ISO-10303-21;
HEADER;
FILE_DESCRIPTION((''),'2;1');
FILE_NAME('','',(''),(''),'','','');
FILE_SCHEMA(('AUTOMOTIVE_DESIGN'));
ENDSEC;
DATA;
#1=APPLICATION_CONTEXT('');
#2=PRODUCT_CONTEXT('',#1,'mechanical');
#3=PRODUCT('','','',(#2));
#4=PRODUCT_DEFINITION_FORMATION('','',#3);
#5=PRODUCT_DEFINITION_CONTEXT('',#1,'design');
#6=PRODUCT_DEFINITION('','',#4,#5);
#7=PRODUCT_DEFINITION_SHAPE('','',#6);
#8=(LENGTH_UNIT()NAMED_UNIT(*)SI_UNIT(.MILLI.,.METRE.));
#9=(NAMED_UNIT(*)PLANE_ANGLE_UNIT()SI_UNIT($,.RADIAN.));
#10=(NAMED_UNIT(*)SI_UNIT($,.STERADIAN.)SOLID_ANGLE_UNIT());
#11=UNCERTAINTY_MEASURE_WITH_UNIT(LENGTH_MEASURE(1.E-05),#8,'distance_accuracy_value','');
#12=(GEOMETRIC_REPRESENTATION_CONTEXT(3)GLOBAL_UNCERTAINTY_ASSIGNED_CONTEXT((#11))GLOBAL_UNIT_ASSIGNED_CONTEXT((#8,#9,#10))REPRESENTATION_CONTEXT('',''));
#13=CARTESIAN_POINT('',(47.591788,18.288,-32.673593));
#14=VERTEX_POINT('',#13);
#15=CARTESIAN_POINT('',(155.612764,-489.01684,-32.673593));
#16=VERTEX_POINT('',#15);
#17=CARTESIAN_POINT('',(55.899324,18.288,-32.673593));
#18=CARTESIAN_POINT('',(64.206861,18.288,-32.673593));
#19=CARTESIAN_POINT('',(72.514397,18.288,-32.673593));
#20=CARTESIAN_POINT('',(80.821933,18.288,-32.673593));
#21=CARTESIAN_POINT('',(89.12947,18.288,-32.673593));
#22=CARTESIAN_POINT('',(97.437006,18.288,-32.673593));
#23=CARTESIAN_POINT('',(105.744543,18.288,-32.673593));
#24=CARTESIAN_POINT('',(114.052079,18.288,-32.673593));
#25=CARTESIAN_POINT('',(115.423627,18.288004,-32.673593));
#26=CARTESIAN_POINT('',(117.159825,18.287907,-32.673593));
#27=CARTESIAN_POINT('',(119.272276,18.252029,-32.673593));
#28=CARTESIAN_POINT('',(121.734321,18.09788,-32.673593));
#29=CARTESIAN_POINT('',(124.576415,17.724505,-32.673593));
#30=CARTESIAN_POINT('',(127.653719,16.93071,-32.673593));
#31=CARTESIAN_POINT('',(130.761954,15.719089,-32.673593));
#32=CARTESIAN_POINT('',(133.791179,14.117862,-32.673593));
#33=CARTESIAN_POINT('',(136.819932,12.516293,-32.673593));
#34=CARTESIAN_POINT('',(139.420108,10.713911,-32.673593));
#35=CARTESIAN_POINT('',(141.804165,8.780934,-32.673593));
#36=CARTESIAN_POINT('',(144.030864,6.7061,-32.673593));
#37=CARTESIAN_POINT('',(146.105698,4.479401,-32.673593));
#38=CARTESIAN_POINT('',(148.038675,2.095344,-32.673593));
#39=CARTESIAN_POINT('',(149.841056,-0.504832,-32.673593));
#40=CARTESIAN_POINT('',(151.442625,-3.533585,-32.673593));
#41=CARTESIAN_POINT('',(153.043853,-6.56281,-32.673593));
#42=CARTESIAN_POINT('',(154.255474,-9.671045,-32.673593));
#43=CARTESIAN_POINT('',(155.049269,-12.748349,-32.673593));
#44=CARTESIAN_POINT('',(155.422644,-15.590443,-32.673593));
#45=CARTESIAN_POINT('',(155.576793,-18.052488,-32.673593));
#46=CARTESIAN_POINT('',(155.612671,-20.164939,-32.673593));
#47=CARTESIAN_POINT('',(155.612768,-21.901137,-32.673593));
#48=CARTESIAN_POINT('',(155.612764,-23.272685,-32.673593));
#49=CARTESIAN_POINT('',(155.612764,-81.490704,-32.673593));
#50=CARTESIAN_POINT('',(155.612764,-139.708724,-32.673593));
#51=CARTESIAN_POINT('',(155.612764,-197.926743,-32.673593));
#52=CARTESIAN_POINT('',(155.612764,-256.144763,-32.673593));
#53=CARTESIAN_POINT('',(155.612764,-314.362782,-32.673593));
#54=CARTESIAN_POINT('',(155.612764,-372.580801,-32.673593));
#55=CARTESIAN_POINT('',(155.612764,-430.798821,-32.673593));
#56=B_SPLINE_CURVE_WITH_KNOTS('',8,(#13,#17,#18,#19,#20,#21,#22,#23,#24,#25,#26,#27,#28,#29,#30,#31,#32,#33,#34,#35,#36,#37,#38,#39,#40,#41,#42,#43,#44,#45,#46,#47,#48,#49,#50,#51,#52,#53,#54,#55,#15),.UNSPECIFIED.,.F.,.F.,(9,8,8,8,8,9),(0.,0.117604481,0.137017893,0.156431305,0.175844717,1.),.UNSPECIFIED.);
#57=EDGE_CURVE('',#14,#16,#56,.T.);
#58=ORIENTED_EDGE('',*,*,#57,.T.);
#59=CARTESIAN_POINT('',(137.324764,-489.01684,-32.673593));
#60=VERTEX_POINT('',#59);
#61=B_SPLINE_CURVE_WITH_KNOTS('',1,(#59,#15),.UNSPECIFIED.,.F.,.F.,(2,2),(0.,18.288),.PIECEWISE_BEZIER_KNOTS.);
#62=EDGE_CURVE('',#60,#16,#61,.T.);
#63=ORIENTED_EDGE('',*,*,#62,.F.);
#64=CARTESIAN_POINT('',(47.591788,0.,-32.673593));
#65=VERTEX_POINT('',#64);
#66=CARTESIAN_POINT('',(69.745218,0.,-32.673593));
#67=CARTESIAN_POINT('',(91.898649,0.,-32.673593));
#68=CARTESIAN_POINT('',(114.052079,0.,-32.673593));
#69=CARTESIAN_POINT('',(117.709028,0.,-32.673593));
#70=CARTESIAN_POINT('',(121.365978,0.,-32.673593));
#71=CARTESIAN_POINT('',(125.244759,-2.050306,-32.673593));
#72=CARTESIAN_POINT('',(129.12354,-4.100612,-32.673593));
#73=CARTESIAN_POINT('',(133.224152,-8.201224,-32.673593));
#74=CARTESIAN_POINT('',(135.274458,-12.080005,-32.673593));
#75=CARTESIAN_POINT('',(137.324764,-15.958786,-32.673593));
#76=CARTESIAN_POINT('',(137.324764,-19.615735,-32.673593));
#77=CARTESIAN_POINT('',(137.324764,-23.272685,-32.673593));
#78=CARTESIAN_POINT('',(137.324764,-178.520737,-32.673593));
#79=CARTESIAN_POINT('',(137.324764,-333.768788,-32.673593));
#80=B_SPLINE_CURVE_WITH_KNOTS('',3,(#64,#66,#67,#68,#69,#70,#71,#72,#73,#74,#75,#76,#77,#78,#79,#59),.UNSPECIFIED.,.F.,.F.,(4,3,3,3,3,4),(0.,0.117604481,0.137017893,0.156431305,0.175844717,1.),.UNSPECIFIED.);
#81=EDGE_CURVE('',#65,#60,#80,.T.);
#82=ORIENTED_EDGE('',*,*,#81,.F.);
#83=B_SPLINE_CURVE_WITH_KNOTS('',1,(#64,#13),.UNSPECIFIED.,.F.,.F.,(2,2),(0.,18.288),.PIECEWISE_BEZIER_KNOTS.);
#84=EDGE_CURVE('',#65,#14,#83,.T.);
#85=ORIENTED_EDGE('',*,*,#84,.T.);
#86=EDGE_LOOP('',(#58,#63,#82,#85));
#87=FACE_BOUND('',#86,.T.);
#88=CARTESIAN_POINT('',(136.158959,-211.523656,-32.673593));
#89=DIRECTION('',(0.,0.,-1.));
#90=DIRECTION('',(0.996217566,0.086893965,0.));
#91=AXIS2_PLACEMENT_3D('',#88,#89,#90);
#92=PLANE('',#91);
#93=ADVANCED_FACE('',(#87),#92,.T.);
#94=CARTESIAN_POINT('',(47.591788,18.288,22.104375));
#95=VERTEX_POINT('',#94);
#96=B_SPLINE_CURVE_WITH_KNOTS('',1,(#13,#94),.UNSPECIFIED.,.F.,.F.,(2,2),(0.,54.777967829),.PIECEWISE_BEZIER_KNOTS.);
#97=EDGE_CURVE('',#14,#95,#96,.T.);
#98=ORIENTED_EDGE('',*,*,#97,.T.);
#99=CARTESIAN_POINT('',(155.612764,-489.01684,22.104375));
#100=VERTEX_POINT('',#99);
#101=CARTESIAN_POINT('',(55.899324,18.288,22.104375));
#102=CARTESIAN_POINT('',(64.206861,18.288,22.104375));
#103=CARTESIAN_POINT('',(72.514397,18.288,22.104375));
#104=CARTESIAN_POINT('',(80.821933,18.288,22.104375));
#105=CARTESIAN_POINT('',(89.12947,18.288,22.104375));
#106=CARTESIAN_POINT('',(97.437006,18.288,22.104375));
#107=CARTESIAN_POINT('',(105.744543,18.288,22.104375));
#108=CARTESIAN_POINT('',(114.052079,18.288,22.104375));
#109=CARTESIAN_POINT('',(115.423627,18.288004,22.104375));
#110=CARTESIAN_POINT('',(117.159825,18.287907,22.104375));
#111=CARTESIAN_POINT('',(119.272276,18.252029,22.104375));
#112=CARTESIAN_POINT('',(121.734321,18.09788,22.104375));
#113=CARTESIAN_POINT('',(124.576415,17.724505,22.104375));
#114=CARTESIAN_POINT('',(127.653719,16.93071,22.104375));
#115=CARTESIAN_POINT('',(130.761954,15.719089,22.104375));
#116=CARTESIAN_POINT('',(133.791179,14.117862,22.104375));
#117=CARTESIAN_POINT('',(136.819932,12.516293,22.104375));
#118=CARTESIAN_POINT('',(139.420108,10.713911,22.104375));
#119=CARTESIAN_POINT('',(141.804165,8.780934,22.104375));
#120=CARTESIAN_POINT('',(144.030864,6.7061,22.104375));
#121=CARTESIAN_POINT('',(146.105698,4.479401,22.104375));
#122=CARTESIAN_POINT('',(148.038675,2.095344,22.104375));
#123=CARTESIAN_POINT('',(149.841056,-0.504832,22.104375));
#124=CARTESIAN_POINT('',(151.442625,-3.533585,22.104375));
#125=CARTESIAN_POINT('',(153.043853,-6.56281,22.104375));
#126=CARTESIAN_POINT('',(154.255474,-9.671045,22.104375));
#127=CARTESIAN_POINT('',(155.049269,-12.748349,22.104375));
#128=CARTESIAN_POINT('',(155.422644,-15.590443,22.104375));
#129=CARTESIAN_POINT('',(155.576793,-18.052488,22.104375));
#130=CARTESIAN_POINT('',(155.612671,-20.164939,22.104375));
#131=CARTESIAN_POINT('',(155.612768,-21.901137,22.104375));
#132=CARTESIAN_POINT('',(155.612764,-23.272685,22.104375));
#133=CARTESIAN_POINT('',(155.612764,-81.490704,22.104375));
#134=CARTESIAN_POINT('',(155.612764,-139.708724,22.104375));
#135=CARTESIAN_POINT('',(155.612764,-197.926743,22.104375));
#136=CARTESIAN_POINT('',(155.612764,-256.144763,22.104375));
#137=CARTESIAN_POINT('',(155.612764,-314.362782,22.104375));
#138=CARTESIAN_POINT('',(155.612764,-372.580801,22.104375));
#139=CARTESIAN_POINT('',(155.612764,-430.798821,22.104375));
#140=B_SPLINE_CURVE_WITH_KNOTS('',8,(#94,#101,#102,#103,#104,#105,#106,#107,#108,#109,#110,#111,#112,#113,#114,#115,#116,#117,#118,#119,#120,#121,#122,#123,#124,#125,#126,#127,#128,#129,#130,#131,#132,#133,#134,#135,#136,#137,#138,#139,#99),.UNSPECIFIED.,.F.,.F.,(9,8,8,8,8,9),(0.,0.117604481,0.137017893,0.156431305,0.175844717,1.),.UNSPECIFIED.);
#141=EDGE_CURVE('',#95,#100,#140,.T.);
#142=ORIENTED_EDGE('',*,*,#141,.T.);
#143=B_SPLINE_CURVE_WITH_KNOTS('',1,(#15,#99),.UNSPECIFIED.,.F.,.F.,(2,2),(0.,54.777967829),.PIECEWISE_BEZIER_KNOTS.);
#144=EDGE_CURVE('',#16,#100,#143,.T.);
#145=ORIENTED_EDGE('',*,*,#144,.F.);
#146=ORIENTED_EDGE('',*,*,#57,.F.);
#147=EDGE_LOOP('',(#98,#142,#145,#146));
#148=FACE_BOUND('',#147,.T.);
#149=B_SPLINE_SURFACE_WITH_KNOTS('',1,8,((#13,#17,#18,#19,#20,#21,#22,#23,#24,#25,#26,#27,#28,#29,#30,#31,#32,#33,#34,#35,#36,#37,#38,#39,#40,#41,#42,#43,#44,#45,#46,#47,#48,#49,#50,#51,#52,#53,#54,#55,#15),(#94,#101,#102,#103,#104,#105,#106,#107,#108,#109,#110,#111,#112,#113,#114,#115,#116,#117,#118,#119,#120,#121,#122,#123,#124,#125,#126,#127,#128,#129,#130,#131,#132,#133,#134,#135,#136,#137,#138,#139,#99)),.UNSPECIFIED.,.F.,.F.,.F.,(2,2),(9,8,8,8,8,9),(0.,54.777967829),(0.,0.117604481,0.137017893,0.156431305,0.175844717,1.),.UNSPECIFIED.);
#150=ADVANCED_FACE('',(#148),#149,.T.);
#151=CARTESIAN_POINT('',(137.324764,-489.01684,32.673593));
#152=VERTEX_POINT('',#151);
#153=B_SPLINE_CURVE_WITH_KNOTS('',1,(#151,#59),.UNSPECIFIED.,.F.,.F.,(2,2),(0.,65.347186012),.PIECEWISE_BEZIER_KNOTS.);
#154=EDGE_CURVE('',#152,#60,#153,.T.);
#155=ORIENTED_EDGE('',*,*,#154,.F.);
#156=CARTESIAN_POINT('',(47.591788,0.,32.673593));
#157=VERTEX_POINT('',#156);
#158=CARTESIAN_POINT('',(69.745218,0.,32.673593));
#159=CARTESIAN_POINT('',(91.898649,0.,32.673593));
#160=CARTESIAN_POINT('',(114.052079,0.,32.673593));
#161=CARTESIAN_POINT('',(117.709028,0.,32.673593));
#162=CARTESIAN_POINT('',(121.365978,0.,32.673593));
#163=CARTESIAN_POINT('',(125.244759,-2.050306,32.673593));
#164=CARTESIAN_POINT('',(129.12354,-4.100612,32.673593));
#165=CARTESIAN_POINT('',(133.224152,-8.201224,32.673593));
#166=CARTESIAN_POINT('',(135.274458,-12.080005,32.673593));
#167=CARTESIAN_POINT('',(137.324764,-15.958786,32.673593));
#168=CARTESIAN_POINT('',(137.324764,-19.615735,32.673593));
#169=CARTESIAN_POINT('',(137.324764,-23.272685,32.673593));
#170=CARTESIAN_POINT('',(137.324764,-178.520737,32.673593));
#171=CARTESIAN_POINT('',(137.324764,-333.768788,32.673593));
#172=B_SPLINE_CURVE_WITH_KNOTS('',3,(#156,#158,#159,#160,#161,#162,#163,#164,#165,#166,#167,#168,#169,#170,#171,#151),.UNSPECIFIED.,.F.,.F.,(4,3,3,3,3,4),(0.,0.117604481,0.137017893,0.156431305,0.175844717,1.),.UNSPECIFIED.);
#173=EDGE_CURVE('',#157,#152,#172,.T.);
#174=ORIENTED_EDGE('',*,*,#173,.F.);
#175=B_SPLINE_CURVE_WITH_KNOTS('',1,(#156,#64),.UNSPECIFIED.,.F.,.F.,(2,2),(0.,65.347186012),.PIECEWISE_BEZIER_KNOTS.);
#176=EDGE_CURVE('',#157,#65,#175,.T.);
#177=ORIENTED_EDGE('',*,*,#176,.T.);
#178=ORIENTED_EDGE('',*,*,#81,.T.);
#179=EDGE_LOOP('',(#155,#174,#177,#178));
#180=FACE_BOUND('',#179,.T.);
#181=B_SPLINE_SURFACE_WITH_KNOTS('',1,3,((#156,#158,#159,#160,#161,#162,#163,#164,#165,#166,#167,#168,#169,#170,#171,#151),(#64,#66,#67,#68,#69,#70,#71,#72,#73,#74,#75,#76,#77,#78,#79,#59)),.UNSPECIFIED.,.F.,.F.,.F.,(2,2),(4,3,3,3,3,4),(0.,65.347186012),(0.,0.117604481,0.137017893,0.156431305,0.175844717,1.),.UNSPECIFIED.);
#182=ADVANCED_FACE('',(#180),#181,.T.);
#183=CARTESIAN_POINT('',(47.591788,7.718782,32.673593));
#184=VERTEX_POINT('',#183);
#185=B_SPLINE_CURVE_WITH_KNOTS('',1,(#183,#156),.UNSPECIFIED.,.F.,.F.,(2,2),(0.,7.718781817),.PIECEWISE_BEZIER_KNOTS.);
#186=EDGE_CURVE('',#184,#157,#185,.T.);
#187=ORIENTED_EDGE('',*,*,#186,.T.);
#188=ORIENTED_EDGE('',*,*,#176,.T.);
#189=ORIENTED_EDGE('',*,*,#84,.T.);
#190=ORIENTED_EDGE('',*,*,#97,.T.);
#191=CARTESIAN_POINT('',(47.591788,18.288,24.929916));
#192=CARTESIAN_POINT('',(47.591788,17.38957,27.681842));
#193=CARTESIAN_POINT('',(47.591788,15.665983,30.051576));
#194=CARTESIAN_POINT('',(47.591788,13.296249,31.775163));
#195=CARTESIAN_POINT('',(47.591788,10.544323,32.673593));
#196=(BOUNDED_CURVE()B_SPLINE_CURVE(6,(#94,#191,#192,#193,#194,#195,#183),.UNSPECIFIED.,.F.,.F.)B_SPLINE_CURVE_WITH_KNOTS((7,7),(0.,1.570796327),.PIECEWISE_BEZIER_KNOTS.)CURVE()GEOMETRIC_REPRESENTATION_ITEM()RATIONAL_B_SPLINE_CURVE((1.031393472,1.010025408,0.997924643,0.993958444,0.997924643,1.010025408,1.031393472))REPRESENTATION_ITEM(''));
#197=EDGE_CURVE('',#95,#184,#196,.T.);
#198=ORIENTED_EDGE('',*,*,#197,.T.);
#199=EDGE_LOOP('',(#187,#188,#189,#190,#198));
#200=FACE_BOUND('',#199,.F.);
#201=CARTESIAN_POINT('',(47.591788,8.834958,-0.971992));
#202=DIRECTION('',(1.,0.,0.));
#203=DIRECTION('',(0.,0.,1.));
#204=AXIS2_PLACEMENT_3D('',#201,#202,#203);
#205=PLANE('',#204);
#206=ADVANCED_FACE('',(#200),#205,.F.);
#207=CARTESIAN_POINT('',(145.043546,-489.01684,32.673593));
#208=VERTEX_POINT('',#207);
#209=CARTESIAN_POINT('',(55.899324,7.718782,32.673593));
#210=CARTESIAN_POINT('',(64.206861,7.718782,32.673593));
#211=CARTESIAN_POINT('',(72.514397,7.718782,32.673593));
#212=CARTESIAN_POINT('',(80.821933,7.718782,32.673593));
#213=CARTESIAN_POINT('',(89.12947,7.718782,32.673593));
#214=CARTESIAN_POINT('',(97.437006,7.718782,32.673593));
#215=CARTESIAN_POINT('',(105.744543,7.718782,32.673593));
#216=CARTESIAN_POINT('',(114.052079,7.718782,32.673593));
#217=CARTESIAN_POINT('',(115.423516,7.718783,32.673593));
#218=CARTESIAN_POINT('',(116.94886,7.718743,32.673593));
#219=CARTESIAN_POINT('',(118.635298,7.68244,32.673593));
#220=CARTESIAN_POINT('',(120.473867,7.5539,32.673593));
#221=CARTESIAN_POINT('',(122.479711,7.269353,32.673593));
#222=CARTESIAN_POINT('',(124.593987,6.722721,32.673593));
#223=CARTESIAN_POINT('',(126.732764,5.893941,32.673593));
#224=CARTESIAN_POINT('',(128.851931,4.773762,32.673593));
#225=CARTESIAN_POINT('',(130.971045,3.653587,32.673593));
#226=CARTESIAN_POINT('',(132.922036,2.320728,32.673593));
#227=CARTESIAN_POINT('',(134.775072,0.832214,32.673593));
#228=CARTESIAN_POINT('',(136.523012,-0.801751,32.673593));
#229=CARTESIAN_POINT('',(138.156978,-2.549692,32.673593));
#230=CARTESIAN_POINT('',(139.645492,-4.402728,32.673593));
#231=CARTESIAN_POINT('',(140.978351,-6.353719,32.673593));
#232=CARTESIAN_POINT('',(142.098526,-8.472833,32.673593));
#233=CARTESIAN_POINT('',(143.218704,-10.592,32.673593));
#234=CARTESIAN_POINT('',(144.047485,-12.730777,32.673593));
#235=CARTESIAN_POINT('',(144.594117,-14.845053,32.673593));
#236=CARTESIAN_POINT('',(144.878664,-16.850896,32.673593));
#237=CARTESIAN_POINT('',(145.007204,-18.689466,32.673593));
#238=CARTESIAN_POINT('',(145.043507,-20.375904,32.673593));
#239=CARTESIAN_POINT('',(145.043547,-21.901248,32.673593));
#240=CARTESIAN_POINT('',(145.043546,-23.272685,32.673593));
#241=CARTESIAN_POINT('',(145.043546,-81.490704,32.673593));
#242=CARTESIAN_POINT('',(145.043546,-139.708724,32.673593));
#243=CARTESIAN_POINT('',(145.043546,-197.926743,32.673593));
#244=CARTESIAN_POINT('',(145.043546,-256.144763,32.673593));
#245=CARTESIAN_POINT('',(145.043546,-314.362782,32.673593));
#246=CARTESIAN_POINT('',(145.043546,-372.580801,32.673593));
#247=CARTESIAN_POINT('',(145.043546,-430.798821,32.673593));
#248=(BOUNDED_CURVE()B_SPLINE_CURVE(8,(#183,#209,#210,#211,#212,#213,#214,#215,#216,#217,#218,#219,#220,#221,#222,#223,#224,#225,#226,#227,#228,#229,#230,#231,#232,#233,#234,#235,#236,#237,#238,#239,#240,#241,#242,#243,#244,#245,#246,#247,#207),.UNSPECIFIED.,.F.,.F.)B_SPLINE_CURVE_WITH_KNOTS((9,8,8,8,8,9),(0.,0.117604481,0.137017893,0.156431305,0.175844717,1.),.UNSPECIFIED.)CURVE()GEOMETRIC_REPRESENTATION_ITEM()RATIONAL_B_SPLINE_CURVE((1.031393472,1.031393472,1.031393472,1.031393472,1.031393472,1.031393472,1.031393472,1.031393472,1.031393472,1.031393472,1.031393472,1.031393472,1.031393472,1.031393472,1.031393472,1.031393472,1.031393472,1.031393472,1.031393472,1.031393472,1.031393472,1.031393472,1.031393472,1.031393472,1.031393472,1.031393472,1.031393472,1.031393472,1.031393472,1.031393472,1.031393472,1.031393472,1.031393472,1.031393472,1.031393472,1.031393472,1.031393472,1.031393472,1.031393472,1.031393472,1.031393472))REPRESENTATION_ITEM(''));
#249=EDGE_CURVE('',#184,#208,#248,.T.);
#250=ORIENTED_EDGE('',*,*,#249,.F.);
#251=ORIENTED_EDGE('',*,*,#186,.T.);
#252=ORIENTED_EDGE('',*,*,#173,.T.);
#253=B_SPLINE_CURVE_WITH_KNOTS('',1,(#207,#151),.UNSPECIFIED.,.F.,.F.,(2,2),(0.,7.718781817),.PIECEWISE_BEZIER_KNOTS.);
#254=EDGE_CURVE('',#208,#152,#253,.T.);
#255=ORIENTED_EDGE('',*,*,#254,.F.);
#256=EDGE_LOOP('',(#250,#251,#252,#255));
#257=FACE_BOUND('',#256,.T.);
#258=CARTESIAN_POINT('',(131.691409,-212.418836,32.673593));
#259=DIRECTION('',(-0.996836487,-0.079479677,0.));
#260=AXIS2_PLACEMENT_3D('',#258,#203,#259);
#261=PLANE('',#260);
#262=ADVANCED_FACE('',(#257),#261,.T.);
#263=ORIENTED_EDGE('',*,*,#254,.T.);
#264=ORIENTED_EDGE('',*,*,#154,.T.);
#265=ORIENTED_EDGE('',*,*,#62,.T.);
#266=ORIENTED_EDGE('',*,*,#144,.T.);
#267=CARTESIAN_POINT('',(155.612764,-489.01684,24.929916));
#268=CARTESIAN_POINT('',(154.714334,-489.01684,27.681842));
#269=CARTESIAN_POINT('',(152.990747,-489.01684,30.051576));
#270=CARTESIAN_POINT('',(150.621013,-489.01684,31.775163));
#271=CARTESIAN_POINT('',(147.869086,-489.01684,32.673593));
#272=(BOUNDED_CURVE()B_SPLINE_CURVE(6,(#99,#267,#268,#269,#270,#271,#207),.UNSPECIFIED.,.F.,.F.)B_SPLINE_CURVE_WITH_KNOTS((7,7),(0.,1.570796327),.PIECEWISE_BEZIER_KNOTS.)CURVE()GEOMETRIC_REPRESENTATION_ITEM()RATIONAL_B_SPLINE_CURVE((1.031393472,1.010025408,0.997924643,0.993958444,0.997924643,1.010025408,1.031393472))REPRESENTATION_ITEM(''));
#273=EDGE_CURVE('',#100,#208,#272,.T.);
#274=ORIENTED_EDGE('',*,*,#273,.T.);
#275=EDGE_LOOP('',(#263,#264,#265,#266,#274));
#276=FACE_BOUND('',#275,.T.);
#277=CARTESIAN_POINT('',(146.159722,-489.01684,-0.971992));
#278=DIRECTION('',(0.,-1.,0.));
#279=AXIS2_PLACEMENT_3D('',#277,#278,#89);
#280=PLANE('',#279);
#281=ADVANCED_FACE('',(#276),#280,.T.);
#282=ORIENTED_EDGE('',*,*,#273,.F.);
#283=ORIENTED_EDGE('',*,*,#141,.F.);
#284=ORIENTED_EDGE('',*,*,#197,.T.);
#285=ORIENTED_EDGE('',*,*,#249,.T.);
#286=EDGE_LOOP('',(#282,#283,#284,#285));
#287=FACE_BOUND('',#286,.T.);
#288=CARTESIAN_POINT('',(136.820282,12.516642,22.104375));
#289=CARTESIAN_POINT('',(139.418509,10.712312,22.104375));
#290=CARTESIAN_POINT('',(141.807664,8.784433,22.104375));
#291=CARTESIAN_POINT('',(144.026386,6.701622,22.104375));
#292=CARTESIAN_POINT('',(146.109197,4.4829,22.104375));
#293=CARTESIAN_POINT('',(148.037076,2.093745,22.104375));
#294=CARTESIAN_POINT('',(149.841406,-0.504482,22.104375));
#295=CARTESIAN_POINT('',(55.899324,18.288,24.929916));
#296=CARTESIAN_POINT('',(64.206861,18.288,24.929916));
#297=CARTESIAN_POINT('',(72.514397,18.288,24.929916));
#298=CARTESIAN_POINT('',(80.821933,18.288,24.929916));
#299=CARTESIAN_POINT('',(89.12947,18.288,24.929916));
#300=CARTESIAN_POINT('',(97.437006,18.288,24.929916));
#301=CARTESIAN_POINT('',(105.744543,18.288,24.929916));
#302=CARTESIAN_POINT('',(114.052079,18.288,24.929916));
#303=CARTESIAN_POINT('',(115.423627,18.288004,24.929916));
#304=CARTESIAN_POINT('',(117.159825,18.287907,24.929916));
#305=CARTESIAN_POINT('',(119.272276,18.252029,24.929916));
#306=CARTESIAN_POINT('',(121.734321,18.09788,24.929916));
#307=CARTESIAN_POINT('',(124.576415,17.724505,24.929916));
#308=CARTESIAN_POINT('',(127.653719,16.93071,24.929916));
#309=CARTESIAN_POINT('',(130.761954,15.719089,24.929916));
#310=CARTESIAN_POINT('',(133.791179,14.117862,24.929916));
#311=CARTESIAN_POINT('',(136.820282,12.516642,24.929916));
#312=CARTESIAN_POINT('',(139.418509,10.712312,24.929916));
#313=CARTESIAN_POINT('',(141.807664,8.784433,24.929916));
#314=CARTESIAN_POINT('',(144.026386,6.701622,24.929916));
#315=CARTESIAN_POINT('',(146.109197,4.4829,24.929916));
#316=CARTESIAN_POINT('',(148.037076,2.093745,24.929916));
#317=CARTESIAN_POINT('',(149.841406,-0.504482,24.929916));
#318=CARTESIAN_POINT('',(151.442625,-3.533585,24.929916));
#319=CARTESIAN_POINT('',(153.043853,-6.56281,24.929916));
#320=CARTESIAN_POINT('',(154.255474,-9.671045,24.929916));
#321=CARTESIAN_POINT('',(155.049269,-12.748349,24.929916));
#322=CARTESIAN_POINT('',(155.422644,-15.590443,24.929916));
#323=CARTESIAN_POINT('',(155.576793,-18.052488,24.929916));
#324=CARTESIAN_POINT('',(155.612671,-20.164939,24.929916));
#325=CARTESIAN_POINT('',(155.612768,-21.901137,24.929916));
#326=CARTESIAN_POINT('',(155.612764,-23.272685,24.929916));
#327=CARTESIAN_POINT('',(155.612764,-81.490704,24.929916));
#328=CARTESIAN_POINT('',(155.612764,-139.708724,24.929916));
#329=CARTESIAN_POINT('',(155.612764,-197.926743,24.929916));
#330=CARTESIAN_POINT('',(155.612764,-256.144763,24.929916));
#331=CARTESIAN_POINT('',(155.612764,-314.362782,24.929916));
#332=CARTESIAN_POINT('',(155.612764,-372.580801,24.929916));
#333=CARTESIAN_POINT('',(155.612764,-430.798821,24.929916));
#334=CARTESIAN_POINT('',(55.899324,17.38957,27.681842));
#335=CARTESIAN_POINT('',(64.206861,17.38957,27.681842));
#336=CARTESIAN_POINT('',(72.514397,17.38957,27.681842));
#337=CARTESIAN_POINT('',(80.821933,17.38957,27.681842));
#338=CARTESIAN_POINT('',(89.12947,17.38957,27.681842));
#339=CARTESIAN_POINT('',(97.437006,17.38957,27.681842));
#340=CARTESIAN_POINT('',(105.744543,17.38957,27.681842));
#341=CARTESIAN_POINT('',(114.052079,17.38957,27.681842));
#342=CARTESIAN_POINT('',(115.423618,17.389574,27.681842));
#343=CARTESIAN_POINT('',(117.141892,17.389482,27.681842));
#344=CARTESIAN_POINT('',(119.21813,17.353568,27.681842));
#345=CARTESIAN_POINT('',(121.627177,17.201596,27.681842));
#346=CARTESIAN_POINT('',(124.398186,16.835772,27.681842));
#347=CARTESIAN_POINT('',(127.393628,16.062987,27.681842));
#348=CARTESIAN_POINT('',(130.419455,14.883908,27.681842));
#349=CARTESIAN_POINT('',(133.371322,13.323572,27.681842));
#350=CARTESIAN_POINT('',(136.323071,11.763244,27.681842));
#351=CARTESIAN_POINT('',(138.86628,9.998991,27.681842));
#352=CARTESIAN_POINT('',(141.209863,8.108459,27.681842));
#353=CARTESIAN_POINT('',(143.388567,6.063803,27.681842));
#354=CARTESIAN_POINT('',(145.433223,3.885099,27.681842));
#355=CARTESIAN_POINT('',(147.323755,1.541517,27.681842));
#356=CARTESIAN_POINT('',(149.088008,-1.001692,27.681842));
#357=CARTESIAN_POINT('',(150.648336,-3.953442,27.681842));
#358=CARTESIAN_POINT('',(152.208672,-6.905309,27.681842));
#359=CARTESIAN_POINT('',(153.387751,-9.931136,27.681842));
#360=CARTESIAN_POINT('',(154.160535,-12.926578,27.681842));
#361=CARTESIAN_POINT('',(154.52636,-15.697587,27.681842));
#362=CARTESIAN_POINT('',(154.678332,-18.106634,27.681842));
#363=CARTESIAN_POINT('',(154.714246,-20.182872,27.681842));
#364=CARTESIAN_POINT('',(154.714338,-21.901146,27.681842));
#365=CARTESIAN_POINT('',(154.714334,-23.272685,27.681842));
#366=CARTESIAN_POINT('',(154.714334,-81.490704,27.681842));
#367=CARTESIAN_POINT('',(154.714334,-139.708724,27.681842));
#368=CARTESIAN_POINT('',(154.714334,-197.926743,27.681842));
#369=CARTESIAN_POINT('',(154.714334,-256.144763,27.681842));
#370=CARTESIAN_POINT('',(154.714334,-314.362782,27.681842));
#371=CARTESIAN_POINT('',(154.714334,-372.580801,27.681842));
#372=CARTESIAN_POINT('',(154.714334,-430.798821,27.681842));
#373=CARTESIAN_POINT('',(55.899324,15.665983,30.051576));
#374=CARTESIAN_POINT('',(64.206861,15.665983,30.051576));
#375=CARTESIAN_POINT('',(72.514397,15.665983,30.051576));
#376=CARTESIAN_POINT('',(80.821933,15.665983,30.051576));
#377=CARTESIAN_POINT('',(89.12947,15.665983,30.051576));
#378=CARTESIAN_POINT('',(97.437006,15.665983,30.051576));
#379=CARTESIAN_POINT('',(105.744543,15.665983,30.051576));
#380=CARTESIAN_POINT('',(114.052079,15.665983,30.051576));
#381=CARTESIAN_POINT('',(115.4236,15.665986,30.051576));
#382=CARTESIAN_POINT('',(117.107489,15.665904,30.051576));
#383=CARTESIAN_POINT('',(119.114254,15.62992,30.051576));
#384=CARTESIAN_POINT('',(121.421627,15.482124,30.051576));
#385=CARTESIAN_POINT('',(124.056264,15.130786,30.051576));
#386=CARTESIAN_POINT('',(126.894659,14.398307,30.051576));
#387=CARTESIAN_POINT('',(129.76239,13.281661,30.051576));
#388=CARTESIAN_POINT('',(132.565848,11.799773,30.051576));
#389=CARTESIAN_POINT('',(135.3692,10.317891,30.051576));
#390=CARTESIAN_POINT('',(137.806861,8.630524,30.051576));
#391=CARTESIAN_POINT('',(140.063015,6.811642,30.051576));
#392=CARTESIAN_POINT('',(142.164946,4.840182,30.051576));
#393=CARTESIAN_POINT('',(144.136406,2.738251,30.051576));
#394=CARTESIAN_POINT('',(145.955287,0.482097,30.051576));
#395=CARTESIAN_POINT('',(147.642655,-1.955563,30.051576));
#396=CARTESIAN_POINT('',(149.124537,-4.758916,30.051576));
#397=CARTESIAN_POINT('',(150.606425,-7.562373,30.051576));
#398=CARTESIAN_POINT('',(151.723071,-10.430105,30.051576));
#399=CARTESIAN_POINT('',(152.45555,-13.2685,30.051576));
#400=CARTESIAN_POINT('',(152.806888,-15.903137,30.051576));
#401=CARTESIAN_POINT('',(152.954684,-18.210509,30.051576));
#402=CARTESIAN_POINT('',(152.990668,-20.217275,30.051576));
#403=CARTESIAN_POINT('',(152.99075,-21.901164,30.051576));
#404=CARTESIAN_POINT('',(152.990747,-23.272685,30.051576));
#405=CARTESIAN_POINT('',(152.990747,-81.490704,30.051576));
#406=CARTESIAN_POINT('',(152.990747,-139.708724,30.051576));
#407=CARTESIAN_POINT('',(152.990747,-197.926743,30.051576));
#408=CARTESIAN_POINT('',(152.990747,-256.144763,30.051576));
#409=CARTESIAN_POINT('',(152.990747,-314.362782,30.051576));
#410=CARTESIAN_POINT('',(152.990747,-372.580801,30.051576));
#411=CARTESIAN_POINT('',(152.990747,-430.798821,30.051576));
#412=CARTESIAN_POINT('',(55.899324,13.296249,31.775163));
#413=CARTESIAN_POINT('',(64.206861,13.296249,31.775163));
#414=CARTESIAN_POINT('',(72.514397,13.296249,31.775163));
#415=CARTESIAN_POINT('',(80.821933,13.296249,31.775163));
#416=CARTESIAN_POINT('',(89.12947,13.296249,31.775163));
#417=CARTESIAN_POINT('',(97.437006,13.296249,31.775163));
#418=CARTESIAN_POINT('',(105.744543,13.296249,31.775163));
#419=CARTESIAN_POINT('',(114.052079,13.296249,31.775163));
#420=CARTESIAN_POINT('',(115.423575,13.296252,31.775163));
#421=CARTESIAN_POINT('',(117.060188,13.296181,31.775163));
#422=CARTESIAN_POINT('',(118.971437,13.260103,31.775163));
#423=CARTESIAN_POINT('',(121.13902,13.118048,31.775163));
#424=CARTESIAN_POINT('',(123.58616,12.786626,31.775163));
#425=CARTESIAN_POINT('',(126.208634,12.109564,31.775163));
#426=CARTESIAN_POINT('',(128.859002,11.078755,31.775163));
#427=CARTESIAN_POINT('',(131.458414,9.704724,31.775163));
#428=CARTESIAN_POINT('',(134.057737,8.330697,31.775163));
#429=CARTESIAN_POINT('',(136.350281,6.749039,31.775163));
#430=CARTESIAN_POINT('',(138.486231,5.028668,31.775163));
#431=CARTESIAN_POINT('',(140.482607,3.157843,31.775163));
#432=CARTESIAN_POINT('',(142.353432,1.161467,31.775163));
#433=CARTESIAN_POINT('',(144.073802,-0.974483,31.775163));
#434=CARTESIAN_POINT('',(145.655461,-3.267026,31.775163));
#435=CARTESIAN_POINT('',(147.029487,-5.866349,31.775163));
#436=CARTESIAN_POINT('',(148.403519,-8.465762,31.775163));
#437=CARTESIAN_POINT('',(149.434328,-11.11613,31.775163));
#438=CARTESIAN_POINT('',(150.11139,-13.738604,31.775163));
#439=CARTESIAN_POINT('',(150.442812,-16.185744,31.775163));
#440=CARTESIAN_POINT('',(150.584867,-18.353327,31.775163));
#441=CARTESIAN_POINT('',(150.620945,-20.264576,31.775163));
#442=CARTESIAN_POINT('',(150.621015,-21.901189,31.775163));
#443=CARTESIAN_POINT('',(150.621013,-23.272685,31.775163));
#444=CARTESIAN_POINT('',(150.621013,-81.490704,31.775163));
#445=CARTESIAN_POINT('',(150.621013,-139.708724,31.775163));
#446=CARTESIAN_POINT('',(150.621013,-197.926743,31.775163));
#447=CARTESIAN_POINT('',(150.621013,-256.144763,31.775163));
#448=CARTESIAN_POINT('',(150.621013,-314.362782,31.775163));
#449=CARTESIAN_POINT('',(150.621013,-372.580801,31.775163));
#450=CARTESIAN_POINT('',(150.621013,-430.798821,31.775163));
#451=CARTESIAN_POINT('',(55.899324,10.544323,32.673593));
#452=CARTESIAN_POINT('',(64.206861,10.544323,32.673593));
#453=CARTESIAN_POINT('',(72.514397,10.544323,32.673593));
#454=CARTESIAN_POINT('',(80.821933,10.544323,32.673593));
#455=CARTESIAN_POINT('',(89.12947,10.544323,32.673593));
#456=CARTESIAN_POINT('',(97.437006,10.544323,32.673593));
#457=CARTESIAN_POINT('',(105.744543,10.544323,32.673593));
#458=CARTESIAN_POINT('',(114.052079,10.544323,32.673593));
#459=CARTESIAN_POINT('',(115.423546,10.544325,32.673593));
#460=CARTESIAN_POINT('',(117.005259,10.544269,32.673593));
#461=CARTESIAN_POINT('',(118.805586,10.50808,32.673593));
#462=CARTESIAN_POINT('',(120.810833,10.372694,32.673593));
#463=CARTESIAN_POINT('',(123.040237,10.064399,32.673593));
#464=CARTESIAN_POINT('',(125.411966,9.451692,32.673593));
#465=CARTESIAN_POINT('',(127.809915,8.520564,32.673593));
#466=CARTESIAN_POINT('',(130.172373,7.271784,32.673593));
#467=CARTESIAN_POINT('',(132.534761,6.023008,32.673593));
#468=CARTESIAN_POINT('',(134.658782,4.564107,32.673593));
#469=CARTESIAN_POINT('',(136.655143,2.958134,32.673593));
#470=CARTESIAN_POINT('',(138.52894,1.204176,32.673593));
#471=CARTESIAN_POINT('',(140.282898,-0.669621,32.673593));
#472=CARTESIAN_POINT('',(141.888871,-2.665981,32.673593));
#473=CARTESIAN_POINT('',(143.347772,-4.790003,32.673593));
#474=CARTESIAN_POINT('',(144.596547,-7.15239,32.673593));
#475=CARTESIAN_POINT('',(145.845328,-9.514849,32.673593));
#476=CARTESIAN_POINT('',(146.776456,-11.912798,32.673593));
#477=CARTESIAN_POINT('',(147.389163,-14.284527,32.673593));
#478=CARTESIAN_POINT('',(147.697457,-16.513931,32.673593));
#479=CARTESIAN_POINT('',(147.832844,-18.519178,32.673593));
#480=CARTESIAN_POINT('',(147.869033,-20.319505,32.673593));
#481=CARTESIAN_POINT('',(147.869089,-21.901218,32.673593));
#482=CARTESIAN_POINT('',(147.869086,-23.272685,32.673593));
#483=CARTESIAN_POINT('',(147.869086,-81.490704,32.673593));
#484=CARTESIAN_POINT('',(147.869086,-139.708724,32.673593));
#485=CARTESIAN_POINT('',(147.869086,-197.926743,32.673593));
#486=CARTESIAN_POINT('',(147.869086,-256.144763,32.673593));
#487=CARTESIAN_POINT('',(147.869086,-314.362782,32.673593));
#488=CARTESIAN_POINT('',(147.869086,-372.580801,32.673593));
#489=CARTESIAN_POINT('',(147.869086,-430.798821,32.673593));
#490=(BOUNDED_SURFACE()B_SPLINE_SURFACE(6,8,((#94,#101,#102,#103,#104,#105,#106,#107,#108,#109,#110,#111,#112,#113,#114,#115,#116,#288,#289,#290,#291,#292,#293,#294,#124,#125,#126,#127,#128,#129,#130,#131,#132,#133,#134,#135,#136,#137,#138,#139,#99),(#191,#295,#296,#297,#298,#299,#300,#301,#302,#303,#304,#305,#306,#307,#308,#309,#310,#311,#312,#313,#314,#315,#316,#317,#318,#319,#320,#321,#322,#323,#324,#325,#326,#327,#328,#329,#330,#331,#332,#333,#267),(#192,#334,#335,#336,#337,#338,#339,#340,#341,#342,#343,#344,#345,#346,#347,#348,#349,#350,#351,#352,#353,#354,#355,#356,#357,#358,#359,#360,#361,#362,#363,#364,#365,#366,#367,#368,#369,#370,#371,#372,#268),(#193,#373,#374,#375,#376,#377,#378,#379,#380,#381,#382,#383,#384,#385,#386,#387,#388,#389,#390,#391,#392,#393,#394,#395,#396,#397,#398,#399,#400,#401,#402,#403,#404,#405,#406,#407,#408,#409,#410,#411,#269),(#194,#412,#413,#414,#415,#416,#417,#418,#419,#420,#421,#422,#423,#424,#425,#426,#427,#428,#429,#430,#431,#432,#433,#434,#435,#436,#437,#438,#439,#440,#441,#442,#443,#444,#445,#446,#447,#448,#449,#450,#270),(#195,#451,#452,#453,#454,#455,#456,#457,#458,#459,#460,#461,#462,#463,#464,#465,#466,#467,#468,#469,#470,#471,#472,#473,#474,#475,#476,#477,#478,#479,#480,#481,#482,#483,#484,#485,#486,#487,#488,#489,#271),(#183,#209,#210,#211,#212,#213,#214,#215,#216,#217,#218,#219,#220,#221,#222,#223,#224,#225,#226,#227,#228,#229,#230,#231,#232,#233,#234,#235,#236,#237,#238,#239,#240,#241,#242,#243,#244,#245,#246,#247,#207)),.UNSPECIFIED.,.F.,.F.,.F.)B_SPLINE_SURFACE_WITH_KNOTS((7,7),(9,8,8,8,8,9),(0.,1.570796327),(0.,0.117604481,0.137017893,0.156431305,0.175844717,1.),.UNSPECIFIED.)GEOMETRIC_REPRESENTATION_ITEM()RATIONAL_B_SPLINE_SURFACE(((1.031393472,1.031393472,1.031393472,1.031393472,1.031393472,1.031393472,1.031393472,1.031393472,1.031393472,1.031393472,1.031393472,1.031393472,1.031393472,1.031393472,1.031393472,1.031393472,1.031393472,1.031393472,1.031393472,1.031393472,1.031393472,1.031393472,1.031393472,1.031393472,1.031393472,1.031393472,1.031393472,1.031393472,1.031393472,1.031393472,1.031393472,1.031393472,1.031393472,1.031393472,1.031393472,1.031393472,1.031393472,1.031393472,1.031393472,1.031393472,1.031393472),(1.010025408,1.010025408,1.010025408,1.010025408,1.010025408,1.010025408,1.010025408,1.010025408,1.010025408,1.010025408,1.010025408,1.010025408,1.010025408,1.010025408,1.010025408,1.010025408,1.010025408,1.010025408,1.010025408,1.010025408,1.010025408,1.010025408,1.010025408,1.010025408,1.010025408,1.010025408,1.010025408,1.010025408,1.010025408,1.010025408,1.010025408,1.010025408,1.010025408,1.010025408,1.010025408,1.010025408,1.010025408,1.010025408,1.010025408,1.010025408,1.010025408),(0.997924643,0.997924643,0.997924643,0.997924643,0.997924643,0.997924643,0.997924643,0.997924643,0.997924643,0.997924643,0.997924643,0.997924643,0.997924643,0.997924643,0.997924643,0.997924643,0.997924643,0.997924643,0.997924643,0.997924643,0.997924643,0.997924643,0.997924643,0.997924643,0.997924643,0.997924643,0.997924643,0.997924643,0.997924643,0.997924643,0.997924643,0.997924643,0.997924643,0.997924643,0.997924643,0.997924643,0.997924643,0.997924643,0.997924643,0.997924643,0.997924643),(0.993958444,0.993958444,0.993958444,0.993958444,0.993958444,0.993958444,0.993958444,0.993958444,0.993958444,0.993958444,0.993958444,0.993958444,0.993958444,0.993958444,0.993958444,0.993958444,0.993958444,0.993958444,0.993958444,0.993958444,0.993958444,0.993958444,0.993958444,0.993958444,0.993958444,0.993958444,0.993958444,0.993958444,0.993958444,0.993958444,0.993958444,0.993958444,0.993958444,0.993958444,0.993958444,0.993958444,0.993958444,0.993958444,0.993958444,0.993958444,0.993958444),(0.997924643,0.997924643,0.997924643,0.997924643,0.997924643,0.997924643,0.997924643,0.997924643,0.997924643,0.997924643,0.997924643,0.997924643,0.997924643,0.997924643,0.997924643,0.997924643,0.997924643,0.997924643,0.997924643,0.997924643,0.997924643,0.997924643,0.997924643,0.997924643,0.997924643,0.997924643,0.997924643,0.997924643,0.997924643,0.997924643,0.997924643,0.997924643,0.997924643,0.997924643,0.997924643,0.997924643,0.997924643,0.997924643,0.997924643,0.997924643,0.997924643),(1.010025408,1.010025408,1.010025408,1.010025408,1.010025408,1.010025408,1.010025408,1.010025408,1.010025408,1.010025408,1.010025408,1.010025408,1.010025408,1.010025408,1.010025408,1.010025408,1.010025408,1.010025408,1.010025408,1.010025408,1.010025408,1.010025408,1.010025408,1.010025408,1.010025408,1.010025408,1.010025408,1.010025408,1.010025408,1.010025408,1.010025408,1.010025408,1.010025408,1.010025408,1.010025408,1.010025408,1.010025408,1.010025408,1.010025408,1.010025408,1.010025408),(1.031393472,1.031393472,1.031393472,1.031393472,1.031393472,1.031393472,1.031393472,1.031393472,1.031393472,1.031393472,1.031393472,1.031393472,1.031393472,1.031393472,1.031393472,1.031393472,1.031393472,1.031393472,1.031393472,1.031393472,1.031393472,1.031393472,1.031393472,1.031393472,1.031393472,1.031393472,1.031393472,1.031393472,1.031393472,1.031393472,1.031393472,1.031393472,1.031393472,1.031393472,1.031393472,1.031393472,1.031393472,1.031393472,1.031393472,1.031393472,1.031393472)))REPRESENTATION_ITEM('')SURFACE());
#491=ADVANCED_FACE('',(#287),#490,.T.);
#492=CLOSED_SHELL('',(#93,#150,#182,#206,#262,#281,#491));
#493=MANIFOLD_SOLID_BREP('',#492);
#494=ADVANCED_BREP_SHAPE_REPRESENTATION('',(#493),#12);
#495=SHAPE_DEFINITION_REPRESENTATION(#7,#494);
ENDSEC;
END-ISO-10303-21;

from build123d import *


with BuildPart() as part:
    # Sweep1: sweep along a path in Sketch4
    with BuildLine() as sweep1_path:  # in the path sketch's own coordinates; laid on its plane below (add() does not lay a ready-made edge on the line's plane)
        add(Edge.make_bspline(
            [(47.591788131, 0), (69.745218369, 0), (91.898648606, 0), (114.052078844, 0), (117.709028489, 0), (125.022927778, 0), (137.324763875, -12.301836097), (137.324763875, -19.615735386), (137.324763875, -23.272685031), (137.324763875, -178.520736688), (137.324763875, -333.768788344), (137.324763875, -489.01684)],
            knots=[0, 0, 0, 0, 0.117604481, 0.117604481, 0.117604481, 0.137017893, 0.156431305, 0.175844717, 0.175844717, 0.175844717, 1, 1, 1, 1], degree=3))
    # Sketch5 → Sweep1 (sweep)
    with BuildSketch(Plane(origin=(47.591788131, 0, 0), x_dir=(0, 0, -1), z_dir=(1, 0, 0))):
        with BuildLine():
            Line((-32.673593006, 0), (32.673593006, 0))
            Line((32.673593006, 0), (32.673593006, 18.288))
            Line((32.673593006, 18.288), (-22.104374823, 18.288))
            ThreePointArc((-22.104374823, 18.288), (-29.577940672, 15.192347666), (-32.673593006, 7.718781817))
            Line((-32.673593006, 7.718781817), (-32.673593006, 0))
        make_face()
    sweep(path=Plane.XY.offset(32.673593006) * sweep1_path.line)


solid = part.part
